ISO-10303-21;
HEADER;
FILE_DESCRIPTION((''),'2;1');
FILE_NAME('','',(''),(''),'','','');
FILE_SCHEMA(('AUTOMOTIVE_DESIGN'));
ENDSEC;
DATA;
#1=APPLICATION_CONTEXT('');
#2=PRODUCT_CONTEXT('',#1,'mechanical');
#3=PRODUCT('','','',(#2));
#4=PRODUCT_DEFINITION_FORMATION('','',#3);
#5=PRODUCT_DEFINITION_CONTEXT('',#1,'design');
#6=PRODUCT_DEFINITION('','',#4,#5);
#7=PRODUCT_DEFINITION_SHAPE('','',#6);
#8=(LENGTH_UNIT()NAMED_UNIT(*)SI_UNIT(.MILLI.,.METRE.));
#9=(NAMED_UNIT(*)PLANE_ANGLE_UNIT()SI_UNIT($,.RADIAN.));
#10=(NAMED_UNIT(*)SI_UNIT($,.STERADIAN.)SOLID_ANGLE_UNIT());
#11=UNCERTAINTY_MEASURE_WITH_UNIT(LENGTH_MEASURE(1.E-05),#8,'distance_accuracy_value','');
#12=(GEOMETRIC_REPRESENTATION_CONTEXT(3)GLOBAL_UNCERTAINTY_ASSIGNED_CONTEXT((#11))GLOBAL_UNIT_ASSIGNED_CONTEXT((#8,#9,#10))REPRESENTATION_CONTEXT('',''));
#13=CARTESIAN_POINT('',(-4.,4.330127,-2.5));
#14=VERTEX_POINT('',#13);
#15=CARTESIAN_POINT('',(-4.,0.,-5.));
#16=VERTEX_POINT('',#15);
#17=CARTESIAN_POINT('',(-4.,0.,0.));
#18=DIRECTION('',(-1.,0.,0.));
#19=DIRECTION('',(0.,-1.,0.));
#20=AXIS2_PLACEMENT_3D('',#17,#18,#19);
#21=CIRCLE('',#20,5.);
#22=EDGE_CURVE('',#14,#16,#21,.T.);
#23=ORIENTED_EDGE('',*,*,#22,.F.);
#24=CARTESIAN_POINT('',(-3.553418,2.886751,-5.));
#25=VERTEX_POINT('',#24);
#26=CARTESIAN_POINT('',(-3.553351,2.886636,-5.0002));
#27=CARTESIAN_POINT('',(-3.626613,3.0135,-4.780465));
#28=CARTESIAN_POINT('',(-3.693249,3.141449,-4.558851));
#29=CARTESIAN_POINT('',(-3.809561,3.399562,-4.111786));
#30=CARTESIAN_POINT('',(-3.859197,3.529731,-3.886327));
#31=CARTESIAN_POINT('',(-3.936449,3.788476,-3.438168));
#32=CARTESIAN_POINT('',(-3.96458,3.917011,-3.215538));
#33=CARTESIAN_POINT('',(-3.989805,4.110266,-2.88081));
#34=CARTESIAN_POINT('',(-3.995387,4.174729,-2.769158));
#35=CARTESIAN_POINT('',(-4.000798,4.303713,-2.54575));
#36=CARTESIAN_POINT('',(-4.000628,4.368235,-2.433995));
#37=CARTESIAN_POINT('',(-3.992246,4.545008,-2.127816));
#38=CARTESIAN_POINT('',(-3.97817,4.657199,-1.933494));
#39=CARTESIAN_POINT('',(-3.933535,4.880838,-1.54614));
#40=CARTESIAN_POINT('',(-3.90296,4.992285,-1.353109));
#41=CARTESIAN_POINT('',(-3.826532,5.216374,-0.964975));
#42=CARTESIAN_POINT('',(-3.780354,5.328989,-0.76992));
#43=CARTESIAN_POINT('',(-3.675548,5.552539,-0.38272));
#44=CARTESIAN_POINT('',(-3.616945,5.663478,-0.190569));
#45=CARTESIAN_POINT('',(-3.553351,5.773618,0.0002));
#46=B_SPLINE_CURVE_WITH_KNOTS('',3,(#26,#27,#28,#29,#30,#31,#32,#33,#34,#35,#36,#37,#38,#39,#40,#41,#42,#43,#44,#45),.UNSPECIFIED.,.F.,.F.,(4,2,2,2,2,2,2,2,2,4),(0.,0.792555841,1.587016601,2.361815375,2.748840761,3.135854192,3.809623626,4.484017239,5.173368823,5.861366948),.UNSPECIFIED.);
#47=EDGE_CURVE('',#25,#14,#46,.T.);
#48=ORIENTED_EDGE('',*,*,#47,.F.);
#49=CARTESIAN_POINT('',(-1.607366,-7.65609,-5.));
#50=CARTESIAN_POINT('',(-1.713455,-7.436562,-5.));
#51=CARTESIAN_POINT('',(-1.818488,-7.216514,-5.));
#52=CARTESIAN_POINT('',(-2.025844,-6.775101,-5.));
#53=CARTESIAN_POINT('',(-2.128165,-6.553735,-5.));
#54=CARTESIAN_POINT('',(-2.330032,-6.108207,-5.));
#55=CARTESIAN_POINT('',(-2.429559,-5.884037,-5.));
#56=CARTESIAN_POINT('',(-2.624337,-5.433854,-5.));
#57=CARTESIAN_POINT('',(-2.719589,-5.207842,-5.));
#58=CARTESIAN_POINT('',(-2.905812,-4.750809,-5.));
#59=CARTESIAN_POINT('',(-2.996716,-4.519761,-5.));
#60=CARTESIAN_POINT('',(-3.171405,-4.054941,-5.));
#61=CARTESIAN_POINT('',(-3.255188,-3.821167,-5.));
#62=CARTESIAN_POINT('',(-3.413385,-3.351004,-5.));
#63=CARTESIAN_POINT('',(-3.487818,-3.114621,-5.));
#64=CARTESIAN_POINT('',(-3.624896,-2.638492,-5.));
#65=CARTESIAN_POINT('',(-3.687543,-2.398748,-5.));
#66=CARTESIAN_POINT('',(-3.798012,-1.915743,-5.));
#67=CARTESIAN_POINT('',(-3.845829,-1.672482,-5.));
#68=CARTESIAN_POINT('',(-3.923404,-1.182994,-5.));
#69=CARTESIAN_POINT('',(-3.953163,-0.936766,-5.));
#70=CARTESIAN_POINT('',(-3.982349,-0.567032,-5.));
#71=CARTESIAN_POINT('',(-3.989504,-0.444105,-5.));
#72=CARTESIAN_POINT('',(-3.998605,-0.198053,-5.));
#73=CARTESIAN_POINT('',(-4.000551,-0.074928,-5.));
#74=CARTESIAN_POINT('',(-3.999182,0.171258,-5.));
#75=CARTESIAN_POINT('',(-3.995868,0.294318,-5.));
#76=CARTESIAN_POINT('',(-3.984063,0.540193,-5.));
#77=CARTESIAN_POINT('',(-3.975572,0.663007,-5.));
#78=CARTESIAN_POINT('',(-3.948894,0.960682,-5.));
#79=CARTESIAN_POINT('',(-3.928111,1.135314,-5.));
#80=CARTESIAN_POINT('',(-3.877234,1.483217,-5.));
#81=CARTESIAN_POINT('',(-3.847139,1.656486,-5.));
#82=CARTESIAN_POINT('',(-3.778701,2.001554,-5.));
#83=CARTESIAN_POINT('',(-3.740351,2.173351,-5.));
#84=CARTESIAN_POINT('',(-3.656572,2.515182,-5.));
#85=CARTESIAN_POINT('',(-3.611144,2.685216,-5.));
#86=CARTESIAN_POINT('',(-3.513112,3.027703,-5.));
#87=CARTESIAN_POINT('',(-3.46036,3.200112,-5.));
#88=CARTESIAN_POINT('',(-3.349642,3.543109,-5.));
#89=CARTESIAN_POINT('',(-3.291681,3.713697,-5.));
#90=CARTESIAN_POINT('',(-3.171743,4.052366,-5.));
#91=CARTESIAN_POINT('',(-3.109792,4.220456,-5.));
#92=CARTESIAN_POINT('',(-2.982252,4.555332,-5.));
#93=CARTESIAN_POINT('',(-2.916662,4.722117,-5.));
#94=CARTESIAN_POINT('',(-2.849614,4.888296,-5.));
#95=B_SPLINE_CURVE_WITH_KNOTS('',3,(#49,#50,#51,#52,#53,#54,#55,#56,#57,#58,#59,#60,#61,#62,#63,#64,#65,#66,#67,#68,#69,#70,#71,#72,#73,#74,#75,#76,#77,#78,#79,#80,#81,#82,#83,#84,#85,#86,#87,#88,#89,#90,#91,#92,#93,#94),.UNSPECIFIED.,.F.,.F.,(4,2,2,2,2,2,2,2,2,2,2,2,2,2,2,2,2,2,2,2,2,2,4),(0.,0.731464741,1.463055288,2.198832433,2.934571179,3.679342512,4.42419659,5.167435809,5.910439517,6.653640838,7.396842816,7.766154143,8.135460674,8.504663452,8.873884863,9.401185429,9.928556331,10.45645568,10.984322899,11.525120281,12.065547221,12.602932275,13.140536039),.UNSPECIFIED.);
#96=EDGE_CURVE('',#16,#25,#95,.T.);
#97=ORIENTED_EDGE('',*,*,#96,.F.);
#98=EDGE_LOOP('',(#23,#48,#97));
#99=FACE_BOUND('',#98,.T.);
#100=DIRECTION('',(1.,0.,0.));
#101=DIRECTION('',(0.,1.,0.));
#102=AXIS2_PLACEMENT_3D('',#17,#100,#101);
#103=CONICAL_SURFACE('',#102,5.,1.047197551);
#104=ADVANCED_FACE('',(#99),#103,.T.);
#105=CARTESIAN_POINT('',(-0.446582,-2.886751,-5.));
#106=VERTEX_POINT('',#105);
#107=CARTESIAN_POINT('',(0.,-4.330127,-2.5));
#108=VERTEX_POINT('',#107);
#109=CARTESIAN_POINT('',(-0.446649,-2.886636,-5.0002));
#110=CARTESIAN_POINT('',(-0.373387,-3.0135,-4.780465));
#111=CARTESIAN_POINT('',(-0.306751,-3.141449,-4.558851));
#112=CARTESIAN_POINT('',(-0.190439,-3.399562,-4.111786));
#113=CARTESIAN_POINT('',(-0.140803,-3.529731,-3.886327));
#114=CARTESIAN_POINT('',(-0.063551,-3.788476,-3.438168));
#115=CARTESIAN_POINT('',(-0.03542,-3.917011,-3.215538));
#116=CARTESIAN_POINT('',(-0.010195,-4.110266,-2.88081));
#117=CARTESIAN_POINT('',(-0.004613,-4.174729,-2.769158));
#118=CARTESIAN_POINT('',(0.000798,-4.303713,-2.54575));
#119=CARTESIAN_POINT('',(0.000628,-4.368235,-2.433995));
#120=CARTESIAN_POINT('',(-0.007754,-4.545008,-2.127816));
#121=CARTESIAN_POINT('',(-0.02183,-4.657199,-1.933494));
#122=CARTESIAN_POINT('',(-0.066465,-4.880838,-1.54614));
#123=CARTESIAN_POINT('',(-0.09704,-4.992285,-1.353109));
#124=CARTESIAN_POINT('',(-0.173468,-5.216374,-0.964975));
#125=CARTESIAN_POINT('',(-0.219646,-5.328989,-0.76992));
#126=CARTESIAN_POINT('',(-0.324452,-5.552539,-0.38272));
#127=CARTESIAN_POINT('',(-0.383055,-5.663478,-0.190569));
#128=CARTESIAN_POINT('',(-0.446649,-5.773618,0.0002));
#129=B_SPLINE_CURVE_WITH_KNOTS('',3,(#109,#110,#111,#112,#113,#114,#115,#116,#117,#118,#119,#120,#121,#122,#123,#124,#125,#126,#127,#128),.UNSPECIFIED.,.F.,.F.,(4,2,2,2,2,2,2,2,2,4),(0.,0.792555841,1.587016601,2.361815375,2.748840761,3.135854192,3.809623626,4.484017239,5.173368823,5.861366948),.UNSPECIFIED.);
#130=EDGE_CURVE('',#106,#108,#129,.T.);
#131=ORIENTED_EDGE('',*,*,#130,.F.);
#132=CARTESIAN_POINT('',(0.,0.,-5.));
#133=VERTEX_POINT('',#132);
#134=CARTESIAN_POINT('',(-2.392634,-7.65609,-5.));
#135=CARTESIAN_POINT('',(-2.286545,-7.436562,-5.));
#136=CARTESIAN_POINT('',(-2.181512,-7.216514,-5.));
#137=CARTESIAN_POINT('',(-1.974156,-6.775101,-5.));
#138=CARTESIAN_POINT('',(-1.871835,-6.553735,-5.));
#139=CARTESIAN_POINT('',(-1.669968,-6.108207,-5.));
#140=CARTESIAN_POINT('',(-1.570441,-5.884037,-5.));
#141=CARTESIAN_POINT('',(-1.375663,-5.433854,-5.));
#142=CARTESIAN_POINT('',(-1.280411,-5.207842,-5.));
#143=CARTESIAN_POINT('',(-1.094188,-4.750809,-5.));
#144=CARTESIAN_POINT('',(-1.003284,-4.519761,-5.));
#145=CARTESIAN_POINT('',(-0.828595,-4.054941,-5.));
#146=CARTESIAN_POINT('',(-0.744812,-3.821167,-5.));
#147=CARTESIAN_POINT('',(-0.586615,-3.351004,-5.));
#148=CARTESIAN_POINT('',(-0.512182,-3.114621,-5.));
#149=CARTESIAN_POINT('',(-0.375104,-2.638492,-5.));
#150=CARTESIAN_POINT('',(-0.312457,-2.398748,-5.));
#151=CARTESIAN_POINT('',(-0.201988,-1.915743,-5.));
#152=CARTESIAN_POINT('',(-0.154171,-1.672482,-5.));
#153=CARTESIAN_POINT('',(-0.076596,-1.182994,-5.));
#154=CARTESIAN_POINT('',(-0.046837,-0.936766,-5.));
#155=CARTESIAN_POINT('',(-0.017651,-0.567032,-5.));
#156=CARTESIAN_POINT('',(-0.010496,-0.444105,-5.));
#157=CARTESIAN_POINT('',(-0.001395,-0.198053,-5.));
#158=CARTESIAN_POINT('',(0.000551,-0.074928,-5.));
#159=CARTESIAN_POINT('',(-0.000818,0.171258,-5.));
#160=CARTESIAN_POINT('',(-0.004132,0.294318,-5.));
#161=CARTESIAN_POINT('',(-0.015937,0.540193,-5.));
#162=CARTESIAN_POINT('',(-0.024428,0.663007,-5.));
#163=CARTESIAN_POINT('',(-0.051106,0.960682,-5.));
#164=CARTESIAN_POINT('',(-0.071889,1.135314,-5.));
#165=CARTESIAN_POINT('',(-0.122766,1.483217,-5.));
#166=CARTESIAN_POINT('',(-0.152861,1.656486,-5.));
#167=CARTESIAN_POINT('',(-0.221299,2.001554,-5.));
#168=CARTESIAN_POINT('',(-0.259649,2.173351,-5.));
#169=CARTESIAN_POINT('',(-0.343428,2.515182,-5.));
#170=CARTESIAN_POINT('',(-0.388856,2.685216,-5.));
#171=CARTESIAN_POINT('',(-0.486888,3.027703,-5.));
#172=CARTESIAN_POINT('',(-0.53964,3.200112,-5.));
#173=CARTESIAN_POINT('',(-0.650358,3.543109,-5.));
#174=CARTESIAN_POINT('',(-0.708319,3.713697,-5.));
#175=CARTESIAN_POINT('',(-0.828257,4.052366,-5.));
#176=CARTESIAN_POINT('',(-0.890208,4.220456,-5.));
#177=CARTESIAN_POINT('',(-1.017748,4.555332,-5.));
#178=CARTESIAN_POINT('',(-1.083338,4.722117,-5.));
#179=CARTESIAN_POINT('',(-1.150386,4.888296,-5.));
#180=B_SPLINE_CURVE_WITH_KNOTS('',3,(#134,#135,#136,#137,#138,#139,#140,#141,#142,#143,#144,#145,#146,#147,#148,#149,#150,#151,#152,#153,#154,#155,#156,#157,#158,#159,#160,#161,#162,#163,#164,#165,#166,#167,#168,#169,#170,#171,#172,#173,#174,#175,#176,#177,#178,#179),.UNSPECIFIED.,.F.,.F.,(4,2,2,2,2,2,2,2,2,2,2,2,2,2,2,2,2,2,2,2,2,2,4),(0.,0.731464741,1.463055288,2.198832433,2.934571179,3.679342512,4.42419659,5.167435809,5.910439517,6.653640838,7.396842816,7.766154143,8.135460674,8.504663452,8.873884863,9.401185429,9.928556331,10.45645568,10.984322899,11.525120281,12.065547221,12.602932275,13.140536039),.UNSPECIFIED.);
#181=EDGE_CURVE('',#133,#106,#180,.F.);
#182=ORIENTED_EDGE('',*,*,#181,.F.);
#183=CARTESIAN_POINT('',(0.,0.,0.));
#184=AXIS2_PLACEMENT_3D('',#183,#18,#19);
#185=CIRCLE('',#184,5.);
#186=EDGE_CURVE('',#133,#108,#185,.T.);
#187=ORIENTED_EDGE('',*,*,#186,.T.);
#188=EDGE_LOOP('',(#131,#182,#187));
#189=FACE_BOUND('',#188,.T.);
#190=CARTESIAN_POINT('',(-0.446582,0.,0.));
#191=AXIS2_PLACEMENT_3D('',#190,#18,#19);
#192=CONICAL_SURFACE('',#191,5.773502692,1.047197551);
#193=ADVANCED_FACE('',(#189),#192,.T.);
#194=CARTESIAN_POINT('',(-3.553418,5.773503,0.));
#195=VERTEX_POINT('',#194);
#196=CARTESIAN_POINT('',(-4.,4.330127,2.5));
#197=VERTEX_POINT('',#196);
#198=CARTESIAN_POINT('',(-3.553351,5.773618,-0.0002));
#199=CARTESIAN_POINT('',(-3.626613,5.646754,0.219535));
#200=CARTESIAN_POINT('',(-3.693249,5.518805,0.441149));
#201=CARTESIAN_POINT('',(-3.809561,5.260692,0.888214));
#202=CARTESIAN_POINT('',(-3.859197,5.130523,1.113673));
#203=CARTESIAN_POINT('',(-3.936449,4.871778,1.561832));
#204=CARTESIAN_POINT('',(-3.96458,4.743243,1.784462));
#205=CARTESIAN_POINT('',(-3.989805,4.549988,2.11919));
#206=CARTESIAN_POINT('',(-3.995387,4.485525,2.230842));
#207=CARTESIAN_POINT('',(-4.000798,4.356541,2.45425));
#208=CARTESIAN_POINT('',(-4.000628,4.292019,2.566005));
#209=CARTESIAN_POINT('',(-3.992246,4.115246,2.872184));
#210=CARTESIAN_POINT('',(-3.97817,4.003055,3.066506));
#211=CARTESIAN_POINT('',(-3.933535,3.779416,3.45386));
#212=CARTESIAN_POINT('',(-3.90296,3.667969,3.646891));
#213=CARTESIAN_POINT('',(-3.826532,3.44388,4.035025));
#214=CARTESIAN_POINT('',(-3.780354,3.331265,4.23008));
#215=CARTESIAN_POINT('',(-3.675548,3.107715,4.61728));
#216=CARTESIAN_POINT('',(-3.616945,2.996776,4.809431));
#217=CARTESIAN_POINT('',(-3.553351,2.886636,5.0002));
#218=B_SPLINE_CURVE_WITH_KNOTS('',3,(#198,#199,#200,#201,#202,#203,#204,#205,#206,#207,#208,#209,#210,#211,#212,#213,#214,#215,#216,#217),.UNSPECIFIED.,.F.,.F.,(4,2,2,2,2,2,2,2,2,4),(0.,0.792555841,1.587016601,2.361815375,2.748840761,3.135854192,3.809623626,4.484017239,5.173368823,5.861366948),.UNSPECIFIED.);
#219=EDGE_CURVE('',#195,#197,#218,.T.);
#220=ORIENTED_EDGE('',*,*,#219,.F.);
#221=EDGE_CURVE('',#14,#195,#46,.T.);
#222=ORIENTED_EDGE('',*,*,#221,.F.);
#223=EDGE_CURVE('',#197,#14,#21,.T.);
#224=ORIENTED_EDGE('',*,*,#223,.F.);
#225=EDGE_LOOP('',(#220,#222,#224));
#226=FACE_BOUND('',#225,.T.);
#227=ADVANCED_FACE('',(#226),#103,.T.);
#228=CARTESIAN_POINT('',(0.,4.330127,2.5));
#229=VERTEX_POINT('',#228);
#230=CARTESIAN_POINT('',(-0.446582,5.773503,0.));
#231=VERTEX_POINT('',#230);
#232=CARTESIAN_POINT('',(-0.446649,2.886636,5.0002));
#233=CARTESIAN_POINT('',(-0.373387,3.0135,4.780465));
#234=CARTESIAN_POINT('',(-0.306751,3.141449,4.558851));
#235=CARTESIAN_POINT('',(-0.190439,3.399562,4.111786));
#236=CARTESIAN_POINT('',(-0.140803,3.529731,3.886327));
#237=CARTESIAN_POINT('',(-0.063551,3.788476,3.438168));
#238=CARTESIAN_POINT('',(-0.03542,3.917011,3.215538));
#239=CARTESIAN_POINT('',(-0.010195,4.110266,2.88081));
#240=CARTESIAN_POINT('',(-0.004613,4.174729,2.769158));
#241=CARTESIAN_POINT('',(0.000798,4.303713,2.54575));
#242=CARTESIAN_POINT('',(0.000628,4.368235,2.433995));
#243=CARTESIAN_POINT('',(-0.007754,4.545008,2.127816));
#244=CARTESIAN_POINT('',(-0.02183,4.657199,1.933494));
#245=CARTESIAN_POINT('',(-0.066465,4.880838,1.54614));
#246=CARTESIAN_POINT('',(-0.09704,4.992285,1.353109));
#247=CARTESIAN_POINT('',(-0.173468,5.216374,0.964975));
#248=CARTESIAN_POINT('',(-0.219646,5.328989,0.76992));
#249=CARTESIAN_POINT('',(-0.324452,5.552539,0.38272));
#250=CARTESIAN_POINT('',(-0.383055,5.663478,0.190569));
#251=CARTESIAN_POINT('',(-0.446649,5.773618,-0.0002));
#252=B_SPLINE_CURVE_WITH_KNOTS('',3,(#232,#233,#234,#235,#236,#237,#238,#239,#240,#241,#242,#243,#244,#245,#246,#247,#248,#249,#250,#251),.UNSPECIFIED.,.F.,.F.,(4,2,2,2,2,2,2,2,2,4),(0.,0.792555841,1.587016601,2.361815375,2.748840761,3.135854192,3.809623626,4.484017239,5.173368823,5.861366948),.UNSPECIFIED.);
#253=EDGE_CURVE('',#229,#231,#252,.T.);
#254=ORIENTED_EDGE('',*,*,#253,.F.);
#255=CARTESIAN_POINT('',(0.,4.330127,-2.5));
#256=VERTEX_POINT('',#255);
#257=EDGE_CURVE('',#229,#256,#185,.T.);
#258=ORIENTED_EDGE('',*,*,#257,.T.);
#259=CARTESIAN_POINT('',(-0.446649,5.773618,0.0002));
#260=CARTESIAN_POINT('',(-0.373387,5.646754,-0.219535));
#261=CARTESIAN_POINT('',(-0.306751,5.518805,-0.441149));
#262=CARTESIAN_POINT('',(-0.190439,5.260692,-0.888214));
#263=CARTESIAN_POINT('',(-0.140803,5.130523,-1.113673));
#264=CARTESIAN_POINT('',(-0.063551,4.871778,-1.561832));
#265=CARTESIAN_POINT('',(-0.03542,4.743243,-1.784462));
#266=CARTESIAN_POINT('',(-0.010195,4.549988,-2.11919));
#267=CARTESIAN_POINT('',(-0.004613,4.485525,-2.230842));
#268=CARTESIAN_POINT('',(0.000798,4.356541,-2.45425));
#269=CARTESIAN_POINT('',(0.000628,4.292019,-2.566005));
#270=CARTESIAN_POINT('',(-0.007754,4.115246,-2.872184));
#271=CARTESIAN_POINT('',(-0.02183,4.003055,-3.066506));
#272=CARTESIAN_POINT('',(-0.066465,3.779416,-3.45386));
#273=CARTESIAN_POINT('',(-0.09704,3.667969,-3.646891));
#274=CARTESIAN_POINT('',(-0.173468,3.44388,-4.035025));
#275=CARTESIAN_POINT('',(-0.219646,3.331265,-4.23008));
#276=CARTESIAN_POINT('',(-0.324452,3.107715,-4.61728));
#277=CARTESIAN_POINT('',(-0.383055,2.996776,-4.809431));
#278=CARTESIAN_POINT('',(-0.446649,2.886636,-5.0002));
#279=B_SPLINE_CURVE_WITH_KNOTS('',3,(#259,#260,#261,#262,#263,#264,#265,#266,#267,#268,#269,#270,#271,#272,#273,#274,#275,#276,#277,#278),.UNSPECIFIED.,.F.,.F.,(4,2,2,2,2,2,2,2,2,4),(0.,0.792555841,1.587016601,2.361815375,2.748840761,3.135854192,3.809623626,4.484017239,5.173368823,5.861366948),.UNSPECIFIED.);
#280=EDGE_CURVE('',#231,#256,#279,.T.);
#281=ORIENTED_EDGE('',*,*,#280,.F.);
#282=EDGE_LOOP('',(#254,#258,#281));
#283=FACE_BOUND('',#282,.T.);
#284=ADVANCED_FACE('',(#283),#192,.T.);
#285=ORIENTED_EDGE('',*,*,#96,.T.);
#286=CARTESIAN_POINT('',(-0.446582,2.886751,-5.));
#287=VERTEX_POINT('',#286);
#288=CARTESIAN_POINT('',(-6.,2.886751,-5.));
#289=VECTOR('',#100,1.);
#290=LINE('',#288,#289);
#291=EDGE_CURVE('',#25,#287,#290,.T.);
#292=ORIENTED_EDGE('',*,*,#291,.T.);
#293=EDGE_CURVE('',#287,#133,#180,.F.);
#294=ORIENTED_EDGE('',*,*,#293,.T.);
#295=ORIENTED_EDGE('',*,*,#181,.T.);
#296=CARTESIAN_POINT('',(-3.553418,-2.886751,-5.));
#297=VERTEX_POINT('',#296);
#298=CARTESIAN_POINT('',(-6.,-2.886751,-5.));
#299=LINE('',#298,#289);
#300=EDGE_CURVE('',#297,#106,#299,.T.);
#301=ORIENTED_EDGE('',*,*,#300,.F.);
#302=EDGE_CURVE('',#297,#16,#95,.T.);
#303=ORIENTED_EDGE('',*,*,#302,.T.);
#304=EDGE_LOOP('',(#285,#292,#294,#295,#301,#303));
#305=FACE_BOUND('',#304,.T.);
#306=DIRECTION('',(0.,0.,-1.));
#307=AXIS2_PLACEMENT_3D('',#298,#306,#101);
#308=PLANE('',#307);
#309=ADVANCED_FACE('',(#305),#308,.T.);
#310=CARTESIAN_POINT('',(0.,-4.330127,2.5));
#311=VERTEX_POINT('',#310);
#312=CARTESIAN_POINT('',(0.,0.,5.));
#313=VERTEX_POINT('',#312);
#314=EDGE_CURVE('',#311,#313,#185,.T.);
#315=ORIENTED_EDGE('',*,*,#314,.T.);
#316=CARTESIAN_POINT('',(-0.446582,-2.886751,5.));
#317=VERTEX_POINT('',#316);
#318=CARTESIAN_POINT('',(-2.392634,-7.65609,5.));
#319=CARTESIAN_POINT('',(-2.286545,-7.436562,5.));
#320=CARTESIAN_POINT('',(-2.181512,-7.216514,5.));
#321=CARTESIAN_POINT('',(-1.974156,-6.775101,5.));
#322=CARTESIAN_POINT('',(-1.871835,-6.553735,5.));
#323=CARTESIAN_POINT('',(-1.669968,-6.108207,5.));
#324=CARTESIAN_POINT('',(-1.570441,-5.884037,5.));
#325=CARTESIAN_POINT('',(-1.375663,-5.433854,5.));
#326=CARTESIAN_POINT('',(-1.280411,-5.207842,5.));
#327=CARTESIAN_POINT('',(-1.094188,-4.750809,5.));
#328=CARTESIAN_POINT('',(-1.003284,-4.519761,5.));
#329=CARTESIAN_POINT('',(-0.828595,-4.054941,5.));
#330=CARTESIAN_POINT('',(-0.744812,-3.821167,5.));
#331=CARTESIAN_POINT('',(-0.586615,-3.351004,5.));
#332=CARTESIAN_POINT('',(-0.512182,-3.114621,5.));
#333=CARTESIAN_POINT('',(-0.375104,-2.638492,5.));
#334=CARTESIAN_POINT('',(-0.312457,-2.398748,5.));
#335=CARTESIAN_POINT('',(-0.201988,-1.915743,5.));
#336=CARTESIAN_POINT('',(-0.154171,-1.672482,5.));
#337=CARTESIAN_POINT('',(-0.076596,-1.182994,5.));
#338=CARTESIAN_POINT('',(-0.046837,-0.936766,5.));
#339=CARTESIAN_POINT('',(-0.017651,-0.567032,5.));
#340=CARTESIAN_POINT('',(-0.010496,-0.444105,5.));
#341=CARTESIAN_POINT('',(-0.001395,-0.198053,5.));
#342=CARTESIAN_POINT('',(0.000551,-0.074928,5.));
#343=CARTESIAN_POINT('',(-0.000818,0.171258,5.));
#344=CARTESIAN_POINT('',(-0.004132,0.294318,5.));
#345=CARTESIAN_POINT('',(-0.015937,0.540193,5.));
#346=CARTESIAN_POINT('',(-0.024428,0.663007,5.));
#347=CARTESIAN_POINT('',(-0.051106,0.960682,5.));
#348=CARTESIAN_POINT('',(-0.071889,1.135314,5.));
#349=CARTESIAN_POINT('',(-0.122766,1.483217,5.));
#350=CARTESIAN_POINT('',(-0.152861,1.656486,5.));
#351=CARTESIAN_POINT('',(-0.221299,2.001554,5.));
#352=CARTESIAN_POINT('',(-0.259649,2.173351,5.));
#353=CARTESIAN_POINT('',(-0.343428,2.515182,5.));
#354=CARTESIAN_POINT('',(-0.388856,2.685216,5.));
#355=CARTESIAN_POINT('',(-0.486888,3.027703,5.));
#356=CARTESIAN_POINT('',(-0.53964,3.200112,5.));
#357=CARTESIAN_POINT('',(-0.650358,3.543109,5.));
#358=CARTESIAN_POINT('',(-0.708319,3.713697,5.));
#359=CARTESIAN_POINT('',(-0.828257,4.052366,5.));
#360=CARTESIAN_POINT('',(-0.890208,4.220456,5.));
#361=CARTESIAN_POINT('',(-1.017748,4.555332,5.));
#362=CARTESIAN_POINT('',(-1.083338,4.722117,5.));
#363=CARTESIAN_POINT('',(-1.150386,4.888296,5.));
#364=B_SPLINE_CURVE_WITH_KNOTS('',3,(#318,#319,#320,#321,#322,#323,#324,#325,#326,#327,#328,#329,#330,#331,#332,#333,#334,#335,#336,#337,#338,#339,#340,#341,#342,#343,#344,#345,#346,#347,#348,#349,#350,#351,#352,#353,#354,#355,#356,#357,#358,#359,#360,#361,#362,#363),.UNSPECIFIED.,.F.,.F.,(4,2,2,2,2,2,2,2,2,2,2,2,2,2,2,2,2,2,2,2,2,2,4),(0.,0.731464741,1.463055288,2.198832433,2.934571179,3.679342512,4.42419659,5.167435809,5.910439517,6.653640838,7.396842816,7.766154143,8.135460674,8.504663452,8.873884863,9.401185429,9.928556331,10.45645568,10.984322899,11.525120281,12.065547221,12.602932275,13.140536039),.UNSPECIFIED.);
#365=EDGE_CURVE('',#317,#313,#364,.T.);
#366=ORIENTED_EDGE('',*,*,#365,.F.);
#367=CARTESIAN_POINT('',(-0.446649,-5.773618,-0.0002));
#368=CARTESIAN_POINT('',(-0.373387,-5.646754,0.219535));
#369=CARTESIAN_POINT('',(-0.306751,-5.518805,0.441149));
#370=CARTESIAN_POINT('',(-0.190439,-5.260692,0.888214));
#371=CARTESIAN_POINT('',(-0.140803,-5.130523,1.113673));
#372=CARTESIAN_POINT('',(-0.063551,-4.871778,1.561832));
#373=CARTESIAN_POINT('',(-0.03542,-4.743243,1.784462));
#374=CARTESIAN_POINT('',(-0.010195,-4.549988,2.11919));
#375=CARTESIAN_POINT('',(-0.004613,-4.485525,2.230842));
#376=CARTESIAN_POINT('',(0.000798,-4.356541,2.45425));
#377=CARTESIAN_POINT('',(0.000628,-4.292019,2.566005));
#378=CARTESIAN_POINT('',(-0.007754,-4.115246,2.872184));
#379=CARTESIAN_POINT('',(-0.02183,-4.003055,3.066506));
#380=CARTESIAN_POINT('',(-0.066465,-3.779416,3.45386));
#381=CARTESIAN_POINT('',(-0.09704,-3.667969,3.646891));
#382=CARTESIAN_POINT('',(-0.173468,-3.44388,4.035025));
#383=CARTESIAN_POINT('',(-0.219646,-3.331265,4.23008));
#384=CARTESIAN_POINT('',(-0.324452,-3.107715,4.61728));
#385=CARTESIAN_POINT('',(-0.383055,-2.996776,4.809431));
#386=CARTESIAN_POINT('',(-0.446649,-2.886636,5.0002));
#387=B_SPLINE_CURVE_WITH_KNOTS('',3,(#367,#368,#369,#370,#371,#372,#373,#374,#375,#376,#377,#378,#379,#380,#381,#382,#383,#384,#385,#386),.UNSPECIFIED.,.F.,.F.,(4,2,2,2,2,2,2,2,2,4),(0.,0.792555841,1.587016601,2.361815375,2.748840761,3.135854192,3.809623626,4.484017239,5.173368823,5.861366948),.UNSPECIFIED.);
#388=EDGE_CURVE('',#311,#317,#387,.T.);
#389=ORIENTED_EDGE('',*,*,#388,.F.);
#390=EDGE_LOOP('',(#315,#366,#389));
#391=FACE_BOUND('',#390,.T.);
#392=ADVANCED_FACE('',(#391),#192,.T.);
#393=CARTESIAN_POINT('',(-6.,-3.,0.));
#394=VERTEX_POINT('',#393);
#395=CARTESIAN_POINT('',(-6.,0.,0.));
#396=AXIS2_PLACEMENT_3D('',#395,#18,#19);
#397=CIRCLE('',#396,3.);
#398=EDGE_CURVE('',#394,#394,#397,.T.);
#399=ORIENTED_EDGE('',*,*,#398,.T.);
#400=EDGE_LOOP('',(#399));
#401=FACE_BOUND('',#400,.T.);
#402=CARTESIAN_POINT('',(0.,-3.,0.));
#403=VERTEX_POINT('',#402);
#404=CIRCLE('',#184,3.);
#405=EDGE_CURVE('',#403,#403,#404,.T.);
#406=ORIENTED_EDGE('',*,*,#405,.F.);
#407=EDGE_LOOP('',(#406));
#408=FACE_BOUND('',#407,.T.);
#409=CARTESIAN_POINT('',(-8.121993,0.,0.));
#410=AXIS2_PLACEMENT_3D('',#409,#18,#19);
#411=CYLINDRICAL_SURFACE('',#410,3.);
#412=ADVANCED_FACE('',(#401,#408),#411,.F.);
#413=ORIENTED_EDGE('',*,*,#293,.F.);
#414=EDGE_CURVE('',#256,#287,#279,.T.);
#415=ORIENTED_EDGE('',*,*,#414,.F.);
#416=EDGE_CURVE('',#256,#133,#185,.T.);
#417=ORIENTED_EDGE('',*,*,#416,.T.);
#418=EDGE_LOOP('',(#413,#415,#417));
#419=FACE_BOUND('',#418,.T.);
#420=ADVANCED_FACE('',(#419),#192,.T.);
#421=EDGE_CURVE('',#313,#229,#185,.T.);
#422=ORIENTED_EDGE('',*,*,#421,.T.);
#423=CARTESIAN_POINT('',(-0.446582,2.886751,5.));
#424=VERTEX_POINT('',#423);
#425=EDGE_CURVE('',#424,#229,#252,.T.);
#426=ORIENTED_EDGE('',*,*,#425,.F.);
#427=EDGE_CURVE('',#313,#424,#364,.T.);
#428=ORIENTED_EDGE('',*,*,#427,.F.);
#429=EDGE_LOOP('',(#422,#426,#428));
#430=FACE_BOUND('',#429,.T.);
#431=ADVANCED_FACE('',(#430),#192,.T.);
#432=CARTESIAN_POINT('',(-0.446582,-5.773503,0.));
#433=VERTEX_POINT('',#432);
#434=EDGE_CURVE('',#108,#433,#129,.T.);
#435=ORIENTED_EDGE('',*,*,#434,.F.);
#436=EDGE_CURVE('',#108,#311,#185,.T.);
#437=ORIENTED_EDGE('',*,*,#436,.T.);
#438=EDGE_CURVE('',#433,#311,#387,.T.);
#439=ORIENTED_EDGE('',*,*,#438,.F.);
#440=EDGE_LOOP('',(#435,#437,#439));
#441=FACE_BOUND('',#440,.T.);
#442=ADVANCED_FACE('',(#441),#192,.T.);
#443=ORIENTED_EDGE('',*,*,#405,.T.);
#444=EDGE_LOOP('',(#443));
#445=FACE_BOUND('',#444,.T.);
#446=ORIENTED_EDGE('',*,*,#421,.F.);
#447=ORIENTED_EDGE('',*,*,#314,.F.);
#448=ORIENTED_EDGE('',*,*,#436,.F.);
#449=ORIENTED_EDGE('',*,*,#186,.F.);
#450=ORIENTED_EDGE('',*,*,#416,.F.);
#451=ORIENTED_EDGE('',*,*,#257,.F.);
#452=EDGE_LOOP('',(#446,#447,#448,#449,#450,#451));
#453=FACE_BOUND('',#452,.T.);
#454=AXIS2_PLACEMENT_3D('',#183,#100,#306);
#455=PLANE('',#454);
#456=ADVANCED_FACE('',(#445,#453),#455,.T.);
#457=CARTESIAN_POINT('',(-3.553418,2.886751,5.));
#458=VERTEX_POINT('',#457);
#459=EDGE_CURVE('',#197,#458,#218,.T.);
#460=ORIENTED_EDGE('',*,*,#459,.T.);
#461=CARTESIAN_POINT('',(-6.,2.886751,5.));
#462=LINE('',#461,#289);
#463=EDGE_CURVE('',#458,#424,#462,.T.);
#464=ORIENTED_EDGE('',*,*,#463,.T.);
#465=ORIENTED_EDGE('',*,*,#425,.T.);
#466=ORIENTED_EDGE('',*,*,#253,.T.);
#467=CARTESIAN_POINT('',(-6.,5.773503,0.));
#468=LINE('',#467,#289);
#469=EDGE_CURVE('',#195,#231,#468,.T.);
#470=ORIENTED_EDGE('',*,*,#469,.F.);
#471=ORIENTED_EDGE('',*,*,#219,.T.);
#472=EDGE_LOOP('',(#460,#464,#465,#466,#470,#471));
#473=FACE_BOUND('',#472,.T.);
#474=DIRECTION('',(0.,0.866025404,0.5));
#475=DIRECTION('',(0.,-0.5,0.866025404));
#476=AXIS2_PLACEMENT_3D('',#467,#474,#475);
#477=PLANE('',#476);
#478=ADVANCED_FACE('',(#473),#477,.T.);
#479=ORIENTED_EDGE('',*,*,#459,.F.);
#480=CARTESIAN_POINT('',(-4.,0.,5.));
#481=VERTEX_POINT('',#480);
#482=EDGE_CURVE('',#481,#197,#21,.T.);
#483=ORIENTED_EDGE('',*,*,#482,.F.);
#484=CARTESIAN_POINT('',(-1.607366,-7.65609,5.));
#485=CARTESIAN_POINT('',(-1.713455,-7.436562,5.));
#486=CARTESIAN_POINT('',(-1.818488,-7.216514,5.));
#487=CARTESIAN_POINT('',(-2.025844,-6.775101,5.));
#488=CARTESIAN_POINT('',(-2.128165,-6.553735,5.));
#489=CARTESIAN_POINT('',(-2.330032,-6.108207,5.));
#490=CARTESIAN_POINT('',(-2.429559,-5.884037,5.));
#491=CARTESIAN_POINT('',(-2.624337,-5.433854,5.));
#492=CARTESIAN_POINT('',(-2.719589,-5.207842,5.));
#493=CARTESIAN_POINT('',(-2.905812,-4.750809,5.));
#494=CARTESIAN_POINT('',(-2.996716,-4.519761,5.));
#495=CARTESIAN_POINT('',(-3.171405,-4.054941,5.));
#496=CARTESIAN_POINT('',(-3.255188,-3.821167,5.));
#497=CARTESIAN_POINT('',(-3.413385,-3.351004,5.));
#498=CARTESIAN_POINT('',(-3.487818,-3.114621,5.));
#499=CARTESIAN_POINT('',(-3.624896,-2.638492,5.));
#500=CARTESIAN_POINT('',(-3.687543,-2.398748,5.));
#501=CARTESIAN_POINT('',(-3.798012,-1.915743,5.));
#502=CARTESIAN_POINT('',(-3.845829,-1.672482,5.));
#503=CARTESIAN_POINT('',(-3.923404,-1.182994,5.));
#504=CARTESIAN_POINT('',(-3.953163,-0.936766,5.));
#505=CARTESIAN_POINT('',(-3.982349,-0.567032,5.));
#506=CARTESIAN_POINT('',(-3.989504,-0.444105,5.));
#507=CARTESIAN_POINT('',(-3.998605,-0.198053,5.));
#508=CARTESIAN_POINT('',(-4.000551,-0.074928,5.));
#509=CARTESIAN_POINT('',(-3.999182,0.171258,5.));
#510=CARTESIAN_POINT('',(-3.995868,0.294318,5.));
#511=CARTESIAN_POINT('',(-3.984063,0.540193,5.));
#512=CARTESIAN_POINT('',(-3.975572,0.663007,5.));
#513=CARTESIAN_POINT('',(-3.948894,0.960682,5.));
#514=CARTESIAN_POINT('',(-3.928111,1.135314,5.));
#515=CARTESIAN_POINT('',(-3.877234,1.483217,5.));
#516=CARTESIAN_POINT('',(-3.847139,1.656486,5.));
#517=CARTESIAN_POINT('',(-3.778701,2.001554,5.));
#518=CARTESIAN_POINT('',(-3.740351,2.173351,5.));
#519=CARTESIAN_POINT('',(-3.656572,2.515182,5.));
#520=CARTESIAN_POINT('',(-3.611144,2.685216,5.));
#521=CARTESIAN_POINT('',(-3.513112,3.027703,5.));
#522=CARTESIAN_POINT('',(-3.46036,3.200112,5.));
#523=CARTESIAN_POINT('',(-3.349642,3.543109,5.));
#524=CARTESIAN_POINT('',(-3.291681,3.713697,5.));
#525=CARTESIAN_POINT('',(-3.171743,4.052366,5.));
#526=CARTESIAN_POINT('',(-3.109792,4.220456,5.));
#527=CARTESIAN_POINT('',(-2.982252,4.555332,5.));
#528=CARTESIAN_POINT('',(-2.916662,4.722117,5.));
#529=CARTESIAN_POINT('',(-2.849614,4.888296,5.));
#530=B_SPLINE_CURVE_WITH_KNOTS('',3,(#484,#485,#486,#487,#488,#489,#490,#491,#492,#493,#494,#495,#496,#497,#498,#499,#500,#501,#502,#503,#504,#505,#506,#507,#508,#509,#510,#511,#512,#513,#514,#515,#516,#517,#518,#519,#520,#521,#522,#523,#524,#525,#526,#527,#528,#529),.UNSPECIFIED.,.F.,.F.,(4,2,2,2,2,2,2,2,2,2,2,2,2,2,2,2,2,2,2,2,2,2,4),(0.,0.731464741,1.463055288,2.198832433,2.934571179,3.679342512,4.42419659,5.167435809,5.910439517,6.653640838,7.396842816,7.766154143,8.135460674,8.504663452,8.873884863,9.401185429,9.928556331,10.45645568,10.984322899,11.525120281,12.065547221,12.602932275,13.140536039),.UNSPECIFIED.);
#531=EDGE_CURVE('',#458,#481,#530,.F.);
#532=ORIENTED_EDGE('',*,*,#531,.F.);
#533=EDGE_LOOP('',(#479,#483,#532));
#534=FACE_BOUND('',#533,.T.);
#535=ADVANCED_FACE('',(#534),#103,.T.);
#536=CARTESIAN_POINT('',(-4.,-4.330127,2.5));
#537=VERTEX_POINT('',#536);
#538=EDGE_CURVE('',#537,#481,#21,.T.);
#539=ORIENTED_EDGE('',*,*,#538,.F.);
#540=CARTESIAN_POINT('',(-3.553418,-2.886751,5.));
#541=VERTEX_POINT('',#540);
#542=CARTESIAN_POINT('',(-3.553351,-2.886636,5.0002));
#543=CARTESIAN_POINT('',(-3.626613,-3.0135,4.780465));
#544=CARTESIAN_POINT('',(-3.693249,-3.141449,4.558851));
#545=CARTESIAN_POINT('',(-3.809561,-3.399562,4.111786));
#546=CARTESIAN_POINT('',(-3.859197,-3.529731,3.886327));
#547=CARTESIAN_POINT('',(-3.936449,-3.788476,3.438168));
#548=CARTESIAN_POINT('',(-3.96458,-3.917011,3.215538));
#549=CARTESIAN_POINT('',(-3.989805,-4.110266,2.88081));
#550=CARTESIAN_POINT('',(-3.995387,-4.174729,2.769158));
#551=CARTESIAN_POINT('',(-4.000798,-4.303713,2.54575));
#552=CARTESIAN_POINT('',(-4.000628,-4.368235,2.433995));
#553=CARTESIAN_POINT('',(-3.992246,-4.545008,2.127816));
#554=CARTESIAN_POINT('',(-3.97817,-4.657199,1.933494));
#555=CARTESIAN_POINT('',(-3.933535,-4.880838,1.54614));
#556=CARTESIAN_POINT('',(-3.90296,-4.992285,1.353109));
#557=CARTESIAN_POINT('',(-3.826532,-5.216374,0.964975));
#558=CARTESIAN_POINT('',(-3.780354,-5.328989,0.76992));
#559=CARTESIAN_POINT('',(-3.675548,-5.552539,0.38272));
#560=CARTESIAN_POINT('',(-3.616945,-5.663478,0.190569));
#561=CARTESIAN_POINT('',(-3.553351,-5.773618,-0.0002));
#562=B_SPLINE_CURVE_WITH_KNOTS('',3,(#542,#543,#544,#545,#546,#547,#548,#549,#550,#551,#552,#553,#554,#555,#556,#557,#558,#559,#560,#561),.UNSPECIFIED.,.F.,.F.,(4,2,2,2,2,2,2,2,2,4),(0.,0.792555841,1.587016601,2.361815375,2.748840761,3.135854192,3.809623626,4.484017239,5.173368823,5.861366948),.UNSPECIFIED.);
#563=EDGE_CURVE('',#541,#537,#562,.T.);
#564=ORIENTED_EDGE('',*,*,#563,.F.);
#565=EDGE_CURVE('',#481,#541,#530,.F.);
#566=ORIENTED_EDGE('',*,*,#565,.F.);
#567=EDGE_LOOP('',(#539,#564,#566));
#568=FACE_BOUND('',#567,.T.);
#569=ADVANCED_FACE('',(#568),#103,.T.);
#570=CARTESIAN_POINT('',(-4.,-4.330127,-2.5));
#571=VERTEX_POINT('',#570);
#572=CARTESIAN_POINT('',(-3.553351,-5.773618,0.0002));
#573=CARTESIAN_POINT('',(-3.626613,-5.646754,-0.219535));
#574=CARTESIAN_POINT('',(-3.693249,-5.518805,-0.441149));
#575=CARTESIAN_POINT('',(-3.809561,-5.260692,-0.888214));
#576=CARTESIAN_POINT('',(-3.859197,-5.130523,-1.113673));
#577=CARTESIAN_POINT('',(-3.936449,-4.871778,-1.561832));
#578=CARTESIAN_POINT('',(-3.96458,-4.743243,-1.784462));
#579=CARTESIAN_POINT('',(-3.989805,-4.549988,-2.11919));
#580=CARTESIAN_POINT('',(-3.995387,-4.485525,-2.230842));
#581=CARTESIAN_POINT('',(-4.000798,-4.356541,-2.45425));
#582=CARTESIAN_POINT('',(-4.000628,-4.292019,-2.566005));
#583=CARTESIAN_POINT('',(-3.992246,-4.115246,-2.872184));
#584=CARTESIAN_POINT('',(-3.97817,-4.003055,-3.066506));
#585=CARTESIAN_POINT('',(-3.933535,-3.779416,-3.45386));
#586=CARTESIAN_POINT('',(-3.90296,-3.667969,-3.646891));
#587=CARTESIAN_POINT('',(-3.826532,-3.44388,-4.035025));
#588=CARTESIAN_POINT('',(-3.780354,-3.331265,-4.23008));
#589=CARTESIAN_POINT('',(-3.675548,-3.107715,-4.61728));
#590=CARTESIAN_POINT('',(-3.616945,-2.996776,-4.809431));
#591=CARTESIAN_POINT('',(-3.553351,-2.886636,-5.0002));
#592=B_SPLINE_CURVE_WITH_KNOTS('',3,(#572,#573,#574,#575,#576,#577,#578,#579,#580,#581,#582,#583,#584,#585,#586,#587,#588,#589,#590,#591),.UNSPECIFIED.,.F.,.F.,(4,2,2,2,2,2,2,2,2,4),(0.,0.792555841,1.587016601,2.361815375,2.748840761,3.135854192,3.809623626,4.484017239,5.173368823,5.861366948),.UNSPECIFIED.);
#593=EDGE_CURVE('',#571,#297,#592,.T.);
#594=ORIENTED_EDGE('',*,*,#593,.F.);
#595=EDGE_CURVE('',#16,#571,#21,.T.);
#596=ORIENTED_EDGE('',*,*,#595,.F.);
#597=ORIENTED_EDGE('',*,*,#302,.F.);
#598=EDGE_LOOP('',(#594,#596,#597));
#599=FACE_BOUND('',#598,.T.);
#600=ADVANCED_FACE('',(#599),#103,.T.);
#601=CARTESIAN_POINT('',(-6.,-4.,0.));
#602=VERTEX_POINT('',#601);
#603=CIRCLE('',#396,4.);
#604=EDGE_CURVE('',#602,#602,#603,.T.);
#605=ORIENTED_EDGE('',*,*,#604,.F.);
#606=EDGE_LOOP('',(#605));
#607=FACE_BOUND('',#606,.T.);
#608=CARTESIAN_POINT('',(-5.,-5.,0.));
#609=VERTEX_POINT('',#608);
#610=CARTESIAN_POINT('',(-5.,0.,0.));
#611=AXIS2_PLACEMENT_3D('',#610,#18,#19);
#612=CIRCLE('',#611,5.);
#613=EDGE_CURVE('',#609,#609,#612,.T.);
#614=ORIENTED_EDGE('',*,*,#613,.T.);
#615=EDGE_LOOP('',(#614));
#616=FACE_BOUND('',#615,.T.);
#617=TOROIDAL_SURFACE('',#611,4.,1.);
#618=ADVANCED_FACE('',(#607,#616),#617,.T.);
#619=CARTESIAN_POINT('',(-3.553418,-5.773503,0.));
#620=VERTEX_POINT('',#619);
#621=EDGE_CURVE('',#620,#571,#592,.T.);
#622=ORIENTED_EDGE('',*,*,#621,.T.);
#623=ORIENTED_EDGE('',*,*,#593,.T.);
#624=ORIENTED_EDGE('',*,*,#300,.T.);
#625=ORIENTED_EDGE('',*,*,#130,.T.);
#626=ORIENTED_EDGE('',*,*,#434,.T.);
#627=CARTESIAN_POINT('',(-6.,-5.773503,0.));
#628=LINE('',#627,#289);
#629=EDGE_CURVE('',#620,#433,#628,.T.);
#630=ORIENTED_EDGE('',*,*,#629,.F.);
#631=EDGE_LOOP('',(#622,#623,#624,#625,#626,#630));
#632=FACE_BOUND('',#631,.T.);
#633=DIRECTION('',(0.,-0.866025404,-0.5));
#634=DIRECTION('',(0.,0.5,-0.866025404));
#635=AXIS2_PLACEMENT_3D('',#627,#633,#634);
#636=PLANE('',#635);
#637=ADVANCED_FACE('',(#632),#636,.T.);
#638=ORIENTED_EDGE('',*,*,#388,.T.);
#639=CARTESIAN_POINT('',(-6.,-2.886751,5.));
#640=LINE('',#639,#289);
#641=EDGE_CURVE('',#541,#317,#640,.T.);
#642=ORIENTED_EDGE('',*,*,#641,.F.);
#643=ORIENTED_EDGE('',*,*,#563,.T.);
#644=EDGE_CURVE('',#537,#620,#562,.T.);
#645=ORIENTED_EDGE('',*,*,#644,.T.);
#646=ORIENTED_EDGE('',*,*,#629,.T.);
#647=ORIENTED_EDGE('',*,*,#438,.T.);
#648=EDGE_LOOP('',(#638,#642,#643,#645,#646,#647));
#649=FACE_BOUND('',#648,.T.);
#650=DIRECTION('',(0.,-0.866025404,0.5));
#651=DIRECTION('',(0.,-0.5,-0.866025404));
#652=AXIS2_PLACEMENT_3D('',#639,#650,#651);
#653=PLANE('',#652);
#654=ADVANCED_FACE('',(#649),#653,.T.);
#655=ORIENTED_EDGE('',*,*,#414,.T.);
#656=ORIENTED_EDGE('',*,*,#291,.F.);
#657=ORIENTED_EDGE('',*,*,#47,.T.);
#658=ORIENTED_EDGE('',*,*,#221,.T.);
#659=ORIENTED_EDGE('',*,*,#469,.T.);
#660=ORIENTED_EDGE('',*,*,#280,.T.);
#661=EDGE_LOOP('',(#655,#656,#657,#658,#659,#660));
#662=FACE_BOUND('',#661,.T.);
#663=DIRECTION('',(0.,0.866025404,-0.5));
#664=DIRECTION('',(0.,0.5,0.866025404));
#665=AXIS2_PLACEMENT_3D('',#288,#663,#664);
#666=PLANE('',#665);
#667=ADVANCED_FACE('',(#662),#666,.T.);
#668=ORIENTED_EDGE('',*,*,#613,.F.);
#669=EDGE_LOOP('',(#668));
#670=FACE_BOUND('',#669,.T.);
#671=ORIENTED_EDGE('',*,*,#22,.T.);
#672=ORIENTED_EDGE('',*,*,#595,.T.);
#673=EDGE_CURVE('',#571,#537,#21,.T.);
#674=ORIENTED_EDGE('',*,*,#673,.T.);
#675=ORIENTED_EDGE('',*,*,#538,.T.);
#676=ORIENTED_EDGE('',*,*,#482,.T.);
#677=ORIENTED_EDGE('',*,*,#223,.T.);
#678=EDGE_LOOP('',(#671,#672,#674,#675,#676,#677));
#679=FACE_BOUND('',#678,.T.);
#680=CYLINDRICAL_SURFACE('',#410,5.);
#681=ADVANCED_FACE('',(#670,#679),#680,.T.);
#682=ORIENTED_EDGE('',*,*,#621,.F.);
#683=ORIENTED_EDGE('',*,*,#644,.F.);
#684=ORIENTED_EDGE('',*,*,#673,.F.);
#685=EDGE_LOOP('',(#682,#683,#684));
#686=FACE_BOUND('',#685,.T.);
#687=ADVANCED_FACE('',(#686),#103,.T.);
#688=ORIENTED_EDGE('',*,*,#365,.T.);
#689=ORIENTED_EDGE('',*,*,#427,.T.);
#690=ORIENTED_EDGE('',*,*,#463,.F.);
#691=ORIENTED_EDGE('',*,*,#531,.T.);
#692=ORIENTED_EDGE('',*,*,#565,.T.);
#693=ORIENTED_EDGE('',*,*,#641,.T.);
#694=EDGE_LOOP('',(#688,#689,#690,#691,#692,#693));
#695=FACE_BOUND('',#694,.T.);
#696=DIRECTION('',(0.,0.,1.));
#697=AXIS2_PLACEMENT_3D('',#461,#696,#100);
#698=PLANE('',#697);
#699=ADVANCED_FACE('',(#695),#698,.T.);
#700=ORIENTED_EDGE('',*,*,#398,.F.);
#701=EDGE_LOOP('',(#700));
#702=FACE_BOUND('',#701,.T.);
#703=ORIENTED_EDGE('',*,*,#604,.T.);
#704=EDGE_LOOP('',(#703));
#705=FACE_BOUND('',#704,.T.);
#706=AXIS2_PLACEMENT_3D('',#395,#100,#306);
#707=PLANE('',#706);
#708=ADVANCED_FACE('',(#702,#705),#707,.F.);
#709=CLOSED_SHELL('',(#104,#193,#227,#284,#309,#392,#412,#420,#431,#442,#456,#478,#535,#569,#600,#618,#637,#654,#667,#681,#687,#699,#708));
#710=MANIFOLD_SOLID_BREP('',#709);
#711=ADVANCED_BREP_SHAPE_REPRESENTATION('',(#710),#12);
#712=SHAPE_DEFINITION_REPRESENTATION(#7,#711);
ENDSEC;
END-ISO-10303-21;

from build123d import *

# Parameters (mm, degrees)
BOSS_EXTRUDE1_DEPTH = 6
SKETCH2_W           = 6
SKETCH2_H           = 3


with BuildPart() as part:
    # Sketch1 → Boss-Extrude1 (new body)
    with BuildSketch(Plane(origin=(0, 0, 0), x_dir=(0, 0, -1), z_dir=(1, 0, 0))):
        Polygon((0, 5.773502692), (-5, 2.886751346), (-5, -2.886751346), (0, -5.773502692), (5, -2.886751346), (5, 2.886751346), align=None)
    extrude(amount=-BOSS_EXTRUDE1_DEPTH)

    # Sketch2 → Cut-Revolve4 (revolve, cut)
    with BuildSketch(Plane.XY):
        Polygon((0, 5), (-0.446581987, 5.773502692), (0, 5.773502692), align=None)
        with BuildLine():
            Line((-3.553418013, 5.773502692), (-4, 5))
            Line((-4, 5), (-5, 5))
            ThreePointArc((-5, 5), (-5.707106781, 4.707106781), (-6, 4))
            Line((-6, 4), (-6.773502692, 4))
            Line((-6.773502692, 4), (-6.773502692, 5.773502692))
            Line((-6.773502692, 5.773502692), (-3.553418013, 5.773502692))
        make_face()
        with Locations((-3, 1.5)):
            Rectangle(SKETCH2_W, SKETCH2_H)
    revolve(axis=Axis((-8.121993413, 0, 0), (1, 0, 0)), mode=Mode.SUBTRACT)


solid = part.part
